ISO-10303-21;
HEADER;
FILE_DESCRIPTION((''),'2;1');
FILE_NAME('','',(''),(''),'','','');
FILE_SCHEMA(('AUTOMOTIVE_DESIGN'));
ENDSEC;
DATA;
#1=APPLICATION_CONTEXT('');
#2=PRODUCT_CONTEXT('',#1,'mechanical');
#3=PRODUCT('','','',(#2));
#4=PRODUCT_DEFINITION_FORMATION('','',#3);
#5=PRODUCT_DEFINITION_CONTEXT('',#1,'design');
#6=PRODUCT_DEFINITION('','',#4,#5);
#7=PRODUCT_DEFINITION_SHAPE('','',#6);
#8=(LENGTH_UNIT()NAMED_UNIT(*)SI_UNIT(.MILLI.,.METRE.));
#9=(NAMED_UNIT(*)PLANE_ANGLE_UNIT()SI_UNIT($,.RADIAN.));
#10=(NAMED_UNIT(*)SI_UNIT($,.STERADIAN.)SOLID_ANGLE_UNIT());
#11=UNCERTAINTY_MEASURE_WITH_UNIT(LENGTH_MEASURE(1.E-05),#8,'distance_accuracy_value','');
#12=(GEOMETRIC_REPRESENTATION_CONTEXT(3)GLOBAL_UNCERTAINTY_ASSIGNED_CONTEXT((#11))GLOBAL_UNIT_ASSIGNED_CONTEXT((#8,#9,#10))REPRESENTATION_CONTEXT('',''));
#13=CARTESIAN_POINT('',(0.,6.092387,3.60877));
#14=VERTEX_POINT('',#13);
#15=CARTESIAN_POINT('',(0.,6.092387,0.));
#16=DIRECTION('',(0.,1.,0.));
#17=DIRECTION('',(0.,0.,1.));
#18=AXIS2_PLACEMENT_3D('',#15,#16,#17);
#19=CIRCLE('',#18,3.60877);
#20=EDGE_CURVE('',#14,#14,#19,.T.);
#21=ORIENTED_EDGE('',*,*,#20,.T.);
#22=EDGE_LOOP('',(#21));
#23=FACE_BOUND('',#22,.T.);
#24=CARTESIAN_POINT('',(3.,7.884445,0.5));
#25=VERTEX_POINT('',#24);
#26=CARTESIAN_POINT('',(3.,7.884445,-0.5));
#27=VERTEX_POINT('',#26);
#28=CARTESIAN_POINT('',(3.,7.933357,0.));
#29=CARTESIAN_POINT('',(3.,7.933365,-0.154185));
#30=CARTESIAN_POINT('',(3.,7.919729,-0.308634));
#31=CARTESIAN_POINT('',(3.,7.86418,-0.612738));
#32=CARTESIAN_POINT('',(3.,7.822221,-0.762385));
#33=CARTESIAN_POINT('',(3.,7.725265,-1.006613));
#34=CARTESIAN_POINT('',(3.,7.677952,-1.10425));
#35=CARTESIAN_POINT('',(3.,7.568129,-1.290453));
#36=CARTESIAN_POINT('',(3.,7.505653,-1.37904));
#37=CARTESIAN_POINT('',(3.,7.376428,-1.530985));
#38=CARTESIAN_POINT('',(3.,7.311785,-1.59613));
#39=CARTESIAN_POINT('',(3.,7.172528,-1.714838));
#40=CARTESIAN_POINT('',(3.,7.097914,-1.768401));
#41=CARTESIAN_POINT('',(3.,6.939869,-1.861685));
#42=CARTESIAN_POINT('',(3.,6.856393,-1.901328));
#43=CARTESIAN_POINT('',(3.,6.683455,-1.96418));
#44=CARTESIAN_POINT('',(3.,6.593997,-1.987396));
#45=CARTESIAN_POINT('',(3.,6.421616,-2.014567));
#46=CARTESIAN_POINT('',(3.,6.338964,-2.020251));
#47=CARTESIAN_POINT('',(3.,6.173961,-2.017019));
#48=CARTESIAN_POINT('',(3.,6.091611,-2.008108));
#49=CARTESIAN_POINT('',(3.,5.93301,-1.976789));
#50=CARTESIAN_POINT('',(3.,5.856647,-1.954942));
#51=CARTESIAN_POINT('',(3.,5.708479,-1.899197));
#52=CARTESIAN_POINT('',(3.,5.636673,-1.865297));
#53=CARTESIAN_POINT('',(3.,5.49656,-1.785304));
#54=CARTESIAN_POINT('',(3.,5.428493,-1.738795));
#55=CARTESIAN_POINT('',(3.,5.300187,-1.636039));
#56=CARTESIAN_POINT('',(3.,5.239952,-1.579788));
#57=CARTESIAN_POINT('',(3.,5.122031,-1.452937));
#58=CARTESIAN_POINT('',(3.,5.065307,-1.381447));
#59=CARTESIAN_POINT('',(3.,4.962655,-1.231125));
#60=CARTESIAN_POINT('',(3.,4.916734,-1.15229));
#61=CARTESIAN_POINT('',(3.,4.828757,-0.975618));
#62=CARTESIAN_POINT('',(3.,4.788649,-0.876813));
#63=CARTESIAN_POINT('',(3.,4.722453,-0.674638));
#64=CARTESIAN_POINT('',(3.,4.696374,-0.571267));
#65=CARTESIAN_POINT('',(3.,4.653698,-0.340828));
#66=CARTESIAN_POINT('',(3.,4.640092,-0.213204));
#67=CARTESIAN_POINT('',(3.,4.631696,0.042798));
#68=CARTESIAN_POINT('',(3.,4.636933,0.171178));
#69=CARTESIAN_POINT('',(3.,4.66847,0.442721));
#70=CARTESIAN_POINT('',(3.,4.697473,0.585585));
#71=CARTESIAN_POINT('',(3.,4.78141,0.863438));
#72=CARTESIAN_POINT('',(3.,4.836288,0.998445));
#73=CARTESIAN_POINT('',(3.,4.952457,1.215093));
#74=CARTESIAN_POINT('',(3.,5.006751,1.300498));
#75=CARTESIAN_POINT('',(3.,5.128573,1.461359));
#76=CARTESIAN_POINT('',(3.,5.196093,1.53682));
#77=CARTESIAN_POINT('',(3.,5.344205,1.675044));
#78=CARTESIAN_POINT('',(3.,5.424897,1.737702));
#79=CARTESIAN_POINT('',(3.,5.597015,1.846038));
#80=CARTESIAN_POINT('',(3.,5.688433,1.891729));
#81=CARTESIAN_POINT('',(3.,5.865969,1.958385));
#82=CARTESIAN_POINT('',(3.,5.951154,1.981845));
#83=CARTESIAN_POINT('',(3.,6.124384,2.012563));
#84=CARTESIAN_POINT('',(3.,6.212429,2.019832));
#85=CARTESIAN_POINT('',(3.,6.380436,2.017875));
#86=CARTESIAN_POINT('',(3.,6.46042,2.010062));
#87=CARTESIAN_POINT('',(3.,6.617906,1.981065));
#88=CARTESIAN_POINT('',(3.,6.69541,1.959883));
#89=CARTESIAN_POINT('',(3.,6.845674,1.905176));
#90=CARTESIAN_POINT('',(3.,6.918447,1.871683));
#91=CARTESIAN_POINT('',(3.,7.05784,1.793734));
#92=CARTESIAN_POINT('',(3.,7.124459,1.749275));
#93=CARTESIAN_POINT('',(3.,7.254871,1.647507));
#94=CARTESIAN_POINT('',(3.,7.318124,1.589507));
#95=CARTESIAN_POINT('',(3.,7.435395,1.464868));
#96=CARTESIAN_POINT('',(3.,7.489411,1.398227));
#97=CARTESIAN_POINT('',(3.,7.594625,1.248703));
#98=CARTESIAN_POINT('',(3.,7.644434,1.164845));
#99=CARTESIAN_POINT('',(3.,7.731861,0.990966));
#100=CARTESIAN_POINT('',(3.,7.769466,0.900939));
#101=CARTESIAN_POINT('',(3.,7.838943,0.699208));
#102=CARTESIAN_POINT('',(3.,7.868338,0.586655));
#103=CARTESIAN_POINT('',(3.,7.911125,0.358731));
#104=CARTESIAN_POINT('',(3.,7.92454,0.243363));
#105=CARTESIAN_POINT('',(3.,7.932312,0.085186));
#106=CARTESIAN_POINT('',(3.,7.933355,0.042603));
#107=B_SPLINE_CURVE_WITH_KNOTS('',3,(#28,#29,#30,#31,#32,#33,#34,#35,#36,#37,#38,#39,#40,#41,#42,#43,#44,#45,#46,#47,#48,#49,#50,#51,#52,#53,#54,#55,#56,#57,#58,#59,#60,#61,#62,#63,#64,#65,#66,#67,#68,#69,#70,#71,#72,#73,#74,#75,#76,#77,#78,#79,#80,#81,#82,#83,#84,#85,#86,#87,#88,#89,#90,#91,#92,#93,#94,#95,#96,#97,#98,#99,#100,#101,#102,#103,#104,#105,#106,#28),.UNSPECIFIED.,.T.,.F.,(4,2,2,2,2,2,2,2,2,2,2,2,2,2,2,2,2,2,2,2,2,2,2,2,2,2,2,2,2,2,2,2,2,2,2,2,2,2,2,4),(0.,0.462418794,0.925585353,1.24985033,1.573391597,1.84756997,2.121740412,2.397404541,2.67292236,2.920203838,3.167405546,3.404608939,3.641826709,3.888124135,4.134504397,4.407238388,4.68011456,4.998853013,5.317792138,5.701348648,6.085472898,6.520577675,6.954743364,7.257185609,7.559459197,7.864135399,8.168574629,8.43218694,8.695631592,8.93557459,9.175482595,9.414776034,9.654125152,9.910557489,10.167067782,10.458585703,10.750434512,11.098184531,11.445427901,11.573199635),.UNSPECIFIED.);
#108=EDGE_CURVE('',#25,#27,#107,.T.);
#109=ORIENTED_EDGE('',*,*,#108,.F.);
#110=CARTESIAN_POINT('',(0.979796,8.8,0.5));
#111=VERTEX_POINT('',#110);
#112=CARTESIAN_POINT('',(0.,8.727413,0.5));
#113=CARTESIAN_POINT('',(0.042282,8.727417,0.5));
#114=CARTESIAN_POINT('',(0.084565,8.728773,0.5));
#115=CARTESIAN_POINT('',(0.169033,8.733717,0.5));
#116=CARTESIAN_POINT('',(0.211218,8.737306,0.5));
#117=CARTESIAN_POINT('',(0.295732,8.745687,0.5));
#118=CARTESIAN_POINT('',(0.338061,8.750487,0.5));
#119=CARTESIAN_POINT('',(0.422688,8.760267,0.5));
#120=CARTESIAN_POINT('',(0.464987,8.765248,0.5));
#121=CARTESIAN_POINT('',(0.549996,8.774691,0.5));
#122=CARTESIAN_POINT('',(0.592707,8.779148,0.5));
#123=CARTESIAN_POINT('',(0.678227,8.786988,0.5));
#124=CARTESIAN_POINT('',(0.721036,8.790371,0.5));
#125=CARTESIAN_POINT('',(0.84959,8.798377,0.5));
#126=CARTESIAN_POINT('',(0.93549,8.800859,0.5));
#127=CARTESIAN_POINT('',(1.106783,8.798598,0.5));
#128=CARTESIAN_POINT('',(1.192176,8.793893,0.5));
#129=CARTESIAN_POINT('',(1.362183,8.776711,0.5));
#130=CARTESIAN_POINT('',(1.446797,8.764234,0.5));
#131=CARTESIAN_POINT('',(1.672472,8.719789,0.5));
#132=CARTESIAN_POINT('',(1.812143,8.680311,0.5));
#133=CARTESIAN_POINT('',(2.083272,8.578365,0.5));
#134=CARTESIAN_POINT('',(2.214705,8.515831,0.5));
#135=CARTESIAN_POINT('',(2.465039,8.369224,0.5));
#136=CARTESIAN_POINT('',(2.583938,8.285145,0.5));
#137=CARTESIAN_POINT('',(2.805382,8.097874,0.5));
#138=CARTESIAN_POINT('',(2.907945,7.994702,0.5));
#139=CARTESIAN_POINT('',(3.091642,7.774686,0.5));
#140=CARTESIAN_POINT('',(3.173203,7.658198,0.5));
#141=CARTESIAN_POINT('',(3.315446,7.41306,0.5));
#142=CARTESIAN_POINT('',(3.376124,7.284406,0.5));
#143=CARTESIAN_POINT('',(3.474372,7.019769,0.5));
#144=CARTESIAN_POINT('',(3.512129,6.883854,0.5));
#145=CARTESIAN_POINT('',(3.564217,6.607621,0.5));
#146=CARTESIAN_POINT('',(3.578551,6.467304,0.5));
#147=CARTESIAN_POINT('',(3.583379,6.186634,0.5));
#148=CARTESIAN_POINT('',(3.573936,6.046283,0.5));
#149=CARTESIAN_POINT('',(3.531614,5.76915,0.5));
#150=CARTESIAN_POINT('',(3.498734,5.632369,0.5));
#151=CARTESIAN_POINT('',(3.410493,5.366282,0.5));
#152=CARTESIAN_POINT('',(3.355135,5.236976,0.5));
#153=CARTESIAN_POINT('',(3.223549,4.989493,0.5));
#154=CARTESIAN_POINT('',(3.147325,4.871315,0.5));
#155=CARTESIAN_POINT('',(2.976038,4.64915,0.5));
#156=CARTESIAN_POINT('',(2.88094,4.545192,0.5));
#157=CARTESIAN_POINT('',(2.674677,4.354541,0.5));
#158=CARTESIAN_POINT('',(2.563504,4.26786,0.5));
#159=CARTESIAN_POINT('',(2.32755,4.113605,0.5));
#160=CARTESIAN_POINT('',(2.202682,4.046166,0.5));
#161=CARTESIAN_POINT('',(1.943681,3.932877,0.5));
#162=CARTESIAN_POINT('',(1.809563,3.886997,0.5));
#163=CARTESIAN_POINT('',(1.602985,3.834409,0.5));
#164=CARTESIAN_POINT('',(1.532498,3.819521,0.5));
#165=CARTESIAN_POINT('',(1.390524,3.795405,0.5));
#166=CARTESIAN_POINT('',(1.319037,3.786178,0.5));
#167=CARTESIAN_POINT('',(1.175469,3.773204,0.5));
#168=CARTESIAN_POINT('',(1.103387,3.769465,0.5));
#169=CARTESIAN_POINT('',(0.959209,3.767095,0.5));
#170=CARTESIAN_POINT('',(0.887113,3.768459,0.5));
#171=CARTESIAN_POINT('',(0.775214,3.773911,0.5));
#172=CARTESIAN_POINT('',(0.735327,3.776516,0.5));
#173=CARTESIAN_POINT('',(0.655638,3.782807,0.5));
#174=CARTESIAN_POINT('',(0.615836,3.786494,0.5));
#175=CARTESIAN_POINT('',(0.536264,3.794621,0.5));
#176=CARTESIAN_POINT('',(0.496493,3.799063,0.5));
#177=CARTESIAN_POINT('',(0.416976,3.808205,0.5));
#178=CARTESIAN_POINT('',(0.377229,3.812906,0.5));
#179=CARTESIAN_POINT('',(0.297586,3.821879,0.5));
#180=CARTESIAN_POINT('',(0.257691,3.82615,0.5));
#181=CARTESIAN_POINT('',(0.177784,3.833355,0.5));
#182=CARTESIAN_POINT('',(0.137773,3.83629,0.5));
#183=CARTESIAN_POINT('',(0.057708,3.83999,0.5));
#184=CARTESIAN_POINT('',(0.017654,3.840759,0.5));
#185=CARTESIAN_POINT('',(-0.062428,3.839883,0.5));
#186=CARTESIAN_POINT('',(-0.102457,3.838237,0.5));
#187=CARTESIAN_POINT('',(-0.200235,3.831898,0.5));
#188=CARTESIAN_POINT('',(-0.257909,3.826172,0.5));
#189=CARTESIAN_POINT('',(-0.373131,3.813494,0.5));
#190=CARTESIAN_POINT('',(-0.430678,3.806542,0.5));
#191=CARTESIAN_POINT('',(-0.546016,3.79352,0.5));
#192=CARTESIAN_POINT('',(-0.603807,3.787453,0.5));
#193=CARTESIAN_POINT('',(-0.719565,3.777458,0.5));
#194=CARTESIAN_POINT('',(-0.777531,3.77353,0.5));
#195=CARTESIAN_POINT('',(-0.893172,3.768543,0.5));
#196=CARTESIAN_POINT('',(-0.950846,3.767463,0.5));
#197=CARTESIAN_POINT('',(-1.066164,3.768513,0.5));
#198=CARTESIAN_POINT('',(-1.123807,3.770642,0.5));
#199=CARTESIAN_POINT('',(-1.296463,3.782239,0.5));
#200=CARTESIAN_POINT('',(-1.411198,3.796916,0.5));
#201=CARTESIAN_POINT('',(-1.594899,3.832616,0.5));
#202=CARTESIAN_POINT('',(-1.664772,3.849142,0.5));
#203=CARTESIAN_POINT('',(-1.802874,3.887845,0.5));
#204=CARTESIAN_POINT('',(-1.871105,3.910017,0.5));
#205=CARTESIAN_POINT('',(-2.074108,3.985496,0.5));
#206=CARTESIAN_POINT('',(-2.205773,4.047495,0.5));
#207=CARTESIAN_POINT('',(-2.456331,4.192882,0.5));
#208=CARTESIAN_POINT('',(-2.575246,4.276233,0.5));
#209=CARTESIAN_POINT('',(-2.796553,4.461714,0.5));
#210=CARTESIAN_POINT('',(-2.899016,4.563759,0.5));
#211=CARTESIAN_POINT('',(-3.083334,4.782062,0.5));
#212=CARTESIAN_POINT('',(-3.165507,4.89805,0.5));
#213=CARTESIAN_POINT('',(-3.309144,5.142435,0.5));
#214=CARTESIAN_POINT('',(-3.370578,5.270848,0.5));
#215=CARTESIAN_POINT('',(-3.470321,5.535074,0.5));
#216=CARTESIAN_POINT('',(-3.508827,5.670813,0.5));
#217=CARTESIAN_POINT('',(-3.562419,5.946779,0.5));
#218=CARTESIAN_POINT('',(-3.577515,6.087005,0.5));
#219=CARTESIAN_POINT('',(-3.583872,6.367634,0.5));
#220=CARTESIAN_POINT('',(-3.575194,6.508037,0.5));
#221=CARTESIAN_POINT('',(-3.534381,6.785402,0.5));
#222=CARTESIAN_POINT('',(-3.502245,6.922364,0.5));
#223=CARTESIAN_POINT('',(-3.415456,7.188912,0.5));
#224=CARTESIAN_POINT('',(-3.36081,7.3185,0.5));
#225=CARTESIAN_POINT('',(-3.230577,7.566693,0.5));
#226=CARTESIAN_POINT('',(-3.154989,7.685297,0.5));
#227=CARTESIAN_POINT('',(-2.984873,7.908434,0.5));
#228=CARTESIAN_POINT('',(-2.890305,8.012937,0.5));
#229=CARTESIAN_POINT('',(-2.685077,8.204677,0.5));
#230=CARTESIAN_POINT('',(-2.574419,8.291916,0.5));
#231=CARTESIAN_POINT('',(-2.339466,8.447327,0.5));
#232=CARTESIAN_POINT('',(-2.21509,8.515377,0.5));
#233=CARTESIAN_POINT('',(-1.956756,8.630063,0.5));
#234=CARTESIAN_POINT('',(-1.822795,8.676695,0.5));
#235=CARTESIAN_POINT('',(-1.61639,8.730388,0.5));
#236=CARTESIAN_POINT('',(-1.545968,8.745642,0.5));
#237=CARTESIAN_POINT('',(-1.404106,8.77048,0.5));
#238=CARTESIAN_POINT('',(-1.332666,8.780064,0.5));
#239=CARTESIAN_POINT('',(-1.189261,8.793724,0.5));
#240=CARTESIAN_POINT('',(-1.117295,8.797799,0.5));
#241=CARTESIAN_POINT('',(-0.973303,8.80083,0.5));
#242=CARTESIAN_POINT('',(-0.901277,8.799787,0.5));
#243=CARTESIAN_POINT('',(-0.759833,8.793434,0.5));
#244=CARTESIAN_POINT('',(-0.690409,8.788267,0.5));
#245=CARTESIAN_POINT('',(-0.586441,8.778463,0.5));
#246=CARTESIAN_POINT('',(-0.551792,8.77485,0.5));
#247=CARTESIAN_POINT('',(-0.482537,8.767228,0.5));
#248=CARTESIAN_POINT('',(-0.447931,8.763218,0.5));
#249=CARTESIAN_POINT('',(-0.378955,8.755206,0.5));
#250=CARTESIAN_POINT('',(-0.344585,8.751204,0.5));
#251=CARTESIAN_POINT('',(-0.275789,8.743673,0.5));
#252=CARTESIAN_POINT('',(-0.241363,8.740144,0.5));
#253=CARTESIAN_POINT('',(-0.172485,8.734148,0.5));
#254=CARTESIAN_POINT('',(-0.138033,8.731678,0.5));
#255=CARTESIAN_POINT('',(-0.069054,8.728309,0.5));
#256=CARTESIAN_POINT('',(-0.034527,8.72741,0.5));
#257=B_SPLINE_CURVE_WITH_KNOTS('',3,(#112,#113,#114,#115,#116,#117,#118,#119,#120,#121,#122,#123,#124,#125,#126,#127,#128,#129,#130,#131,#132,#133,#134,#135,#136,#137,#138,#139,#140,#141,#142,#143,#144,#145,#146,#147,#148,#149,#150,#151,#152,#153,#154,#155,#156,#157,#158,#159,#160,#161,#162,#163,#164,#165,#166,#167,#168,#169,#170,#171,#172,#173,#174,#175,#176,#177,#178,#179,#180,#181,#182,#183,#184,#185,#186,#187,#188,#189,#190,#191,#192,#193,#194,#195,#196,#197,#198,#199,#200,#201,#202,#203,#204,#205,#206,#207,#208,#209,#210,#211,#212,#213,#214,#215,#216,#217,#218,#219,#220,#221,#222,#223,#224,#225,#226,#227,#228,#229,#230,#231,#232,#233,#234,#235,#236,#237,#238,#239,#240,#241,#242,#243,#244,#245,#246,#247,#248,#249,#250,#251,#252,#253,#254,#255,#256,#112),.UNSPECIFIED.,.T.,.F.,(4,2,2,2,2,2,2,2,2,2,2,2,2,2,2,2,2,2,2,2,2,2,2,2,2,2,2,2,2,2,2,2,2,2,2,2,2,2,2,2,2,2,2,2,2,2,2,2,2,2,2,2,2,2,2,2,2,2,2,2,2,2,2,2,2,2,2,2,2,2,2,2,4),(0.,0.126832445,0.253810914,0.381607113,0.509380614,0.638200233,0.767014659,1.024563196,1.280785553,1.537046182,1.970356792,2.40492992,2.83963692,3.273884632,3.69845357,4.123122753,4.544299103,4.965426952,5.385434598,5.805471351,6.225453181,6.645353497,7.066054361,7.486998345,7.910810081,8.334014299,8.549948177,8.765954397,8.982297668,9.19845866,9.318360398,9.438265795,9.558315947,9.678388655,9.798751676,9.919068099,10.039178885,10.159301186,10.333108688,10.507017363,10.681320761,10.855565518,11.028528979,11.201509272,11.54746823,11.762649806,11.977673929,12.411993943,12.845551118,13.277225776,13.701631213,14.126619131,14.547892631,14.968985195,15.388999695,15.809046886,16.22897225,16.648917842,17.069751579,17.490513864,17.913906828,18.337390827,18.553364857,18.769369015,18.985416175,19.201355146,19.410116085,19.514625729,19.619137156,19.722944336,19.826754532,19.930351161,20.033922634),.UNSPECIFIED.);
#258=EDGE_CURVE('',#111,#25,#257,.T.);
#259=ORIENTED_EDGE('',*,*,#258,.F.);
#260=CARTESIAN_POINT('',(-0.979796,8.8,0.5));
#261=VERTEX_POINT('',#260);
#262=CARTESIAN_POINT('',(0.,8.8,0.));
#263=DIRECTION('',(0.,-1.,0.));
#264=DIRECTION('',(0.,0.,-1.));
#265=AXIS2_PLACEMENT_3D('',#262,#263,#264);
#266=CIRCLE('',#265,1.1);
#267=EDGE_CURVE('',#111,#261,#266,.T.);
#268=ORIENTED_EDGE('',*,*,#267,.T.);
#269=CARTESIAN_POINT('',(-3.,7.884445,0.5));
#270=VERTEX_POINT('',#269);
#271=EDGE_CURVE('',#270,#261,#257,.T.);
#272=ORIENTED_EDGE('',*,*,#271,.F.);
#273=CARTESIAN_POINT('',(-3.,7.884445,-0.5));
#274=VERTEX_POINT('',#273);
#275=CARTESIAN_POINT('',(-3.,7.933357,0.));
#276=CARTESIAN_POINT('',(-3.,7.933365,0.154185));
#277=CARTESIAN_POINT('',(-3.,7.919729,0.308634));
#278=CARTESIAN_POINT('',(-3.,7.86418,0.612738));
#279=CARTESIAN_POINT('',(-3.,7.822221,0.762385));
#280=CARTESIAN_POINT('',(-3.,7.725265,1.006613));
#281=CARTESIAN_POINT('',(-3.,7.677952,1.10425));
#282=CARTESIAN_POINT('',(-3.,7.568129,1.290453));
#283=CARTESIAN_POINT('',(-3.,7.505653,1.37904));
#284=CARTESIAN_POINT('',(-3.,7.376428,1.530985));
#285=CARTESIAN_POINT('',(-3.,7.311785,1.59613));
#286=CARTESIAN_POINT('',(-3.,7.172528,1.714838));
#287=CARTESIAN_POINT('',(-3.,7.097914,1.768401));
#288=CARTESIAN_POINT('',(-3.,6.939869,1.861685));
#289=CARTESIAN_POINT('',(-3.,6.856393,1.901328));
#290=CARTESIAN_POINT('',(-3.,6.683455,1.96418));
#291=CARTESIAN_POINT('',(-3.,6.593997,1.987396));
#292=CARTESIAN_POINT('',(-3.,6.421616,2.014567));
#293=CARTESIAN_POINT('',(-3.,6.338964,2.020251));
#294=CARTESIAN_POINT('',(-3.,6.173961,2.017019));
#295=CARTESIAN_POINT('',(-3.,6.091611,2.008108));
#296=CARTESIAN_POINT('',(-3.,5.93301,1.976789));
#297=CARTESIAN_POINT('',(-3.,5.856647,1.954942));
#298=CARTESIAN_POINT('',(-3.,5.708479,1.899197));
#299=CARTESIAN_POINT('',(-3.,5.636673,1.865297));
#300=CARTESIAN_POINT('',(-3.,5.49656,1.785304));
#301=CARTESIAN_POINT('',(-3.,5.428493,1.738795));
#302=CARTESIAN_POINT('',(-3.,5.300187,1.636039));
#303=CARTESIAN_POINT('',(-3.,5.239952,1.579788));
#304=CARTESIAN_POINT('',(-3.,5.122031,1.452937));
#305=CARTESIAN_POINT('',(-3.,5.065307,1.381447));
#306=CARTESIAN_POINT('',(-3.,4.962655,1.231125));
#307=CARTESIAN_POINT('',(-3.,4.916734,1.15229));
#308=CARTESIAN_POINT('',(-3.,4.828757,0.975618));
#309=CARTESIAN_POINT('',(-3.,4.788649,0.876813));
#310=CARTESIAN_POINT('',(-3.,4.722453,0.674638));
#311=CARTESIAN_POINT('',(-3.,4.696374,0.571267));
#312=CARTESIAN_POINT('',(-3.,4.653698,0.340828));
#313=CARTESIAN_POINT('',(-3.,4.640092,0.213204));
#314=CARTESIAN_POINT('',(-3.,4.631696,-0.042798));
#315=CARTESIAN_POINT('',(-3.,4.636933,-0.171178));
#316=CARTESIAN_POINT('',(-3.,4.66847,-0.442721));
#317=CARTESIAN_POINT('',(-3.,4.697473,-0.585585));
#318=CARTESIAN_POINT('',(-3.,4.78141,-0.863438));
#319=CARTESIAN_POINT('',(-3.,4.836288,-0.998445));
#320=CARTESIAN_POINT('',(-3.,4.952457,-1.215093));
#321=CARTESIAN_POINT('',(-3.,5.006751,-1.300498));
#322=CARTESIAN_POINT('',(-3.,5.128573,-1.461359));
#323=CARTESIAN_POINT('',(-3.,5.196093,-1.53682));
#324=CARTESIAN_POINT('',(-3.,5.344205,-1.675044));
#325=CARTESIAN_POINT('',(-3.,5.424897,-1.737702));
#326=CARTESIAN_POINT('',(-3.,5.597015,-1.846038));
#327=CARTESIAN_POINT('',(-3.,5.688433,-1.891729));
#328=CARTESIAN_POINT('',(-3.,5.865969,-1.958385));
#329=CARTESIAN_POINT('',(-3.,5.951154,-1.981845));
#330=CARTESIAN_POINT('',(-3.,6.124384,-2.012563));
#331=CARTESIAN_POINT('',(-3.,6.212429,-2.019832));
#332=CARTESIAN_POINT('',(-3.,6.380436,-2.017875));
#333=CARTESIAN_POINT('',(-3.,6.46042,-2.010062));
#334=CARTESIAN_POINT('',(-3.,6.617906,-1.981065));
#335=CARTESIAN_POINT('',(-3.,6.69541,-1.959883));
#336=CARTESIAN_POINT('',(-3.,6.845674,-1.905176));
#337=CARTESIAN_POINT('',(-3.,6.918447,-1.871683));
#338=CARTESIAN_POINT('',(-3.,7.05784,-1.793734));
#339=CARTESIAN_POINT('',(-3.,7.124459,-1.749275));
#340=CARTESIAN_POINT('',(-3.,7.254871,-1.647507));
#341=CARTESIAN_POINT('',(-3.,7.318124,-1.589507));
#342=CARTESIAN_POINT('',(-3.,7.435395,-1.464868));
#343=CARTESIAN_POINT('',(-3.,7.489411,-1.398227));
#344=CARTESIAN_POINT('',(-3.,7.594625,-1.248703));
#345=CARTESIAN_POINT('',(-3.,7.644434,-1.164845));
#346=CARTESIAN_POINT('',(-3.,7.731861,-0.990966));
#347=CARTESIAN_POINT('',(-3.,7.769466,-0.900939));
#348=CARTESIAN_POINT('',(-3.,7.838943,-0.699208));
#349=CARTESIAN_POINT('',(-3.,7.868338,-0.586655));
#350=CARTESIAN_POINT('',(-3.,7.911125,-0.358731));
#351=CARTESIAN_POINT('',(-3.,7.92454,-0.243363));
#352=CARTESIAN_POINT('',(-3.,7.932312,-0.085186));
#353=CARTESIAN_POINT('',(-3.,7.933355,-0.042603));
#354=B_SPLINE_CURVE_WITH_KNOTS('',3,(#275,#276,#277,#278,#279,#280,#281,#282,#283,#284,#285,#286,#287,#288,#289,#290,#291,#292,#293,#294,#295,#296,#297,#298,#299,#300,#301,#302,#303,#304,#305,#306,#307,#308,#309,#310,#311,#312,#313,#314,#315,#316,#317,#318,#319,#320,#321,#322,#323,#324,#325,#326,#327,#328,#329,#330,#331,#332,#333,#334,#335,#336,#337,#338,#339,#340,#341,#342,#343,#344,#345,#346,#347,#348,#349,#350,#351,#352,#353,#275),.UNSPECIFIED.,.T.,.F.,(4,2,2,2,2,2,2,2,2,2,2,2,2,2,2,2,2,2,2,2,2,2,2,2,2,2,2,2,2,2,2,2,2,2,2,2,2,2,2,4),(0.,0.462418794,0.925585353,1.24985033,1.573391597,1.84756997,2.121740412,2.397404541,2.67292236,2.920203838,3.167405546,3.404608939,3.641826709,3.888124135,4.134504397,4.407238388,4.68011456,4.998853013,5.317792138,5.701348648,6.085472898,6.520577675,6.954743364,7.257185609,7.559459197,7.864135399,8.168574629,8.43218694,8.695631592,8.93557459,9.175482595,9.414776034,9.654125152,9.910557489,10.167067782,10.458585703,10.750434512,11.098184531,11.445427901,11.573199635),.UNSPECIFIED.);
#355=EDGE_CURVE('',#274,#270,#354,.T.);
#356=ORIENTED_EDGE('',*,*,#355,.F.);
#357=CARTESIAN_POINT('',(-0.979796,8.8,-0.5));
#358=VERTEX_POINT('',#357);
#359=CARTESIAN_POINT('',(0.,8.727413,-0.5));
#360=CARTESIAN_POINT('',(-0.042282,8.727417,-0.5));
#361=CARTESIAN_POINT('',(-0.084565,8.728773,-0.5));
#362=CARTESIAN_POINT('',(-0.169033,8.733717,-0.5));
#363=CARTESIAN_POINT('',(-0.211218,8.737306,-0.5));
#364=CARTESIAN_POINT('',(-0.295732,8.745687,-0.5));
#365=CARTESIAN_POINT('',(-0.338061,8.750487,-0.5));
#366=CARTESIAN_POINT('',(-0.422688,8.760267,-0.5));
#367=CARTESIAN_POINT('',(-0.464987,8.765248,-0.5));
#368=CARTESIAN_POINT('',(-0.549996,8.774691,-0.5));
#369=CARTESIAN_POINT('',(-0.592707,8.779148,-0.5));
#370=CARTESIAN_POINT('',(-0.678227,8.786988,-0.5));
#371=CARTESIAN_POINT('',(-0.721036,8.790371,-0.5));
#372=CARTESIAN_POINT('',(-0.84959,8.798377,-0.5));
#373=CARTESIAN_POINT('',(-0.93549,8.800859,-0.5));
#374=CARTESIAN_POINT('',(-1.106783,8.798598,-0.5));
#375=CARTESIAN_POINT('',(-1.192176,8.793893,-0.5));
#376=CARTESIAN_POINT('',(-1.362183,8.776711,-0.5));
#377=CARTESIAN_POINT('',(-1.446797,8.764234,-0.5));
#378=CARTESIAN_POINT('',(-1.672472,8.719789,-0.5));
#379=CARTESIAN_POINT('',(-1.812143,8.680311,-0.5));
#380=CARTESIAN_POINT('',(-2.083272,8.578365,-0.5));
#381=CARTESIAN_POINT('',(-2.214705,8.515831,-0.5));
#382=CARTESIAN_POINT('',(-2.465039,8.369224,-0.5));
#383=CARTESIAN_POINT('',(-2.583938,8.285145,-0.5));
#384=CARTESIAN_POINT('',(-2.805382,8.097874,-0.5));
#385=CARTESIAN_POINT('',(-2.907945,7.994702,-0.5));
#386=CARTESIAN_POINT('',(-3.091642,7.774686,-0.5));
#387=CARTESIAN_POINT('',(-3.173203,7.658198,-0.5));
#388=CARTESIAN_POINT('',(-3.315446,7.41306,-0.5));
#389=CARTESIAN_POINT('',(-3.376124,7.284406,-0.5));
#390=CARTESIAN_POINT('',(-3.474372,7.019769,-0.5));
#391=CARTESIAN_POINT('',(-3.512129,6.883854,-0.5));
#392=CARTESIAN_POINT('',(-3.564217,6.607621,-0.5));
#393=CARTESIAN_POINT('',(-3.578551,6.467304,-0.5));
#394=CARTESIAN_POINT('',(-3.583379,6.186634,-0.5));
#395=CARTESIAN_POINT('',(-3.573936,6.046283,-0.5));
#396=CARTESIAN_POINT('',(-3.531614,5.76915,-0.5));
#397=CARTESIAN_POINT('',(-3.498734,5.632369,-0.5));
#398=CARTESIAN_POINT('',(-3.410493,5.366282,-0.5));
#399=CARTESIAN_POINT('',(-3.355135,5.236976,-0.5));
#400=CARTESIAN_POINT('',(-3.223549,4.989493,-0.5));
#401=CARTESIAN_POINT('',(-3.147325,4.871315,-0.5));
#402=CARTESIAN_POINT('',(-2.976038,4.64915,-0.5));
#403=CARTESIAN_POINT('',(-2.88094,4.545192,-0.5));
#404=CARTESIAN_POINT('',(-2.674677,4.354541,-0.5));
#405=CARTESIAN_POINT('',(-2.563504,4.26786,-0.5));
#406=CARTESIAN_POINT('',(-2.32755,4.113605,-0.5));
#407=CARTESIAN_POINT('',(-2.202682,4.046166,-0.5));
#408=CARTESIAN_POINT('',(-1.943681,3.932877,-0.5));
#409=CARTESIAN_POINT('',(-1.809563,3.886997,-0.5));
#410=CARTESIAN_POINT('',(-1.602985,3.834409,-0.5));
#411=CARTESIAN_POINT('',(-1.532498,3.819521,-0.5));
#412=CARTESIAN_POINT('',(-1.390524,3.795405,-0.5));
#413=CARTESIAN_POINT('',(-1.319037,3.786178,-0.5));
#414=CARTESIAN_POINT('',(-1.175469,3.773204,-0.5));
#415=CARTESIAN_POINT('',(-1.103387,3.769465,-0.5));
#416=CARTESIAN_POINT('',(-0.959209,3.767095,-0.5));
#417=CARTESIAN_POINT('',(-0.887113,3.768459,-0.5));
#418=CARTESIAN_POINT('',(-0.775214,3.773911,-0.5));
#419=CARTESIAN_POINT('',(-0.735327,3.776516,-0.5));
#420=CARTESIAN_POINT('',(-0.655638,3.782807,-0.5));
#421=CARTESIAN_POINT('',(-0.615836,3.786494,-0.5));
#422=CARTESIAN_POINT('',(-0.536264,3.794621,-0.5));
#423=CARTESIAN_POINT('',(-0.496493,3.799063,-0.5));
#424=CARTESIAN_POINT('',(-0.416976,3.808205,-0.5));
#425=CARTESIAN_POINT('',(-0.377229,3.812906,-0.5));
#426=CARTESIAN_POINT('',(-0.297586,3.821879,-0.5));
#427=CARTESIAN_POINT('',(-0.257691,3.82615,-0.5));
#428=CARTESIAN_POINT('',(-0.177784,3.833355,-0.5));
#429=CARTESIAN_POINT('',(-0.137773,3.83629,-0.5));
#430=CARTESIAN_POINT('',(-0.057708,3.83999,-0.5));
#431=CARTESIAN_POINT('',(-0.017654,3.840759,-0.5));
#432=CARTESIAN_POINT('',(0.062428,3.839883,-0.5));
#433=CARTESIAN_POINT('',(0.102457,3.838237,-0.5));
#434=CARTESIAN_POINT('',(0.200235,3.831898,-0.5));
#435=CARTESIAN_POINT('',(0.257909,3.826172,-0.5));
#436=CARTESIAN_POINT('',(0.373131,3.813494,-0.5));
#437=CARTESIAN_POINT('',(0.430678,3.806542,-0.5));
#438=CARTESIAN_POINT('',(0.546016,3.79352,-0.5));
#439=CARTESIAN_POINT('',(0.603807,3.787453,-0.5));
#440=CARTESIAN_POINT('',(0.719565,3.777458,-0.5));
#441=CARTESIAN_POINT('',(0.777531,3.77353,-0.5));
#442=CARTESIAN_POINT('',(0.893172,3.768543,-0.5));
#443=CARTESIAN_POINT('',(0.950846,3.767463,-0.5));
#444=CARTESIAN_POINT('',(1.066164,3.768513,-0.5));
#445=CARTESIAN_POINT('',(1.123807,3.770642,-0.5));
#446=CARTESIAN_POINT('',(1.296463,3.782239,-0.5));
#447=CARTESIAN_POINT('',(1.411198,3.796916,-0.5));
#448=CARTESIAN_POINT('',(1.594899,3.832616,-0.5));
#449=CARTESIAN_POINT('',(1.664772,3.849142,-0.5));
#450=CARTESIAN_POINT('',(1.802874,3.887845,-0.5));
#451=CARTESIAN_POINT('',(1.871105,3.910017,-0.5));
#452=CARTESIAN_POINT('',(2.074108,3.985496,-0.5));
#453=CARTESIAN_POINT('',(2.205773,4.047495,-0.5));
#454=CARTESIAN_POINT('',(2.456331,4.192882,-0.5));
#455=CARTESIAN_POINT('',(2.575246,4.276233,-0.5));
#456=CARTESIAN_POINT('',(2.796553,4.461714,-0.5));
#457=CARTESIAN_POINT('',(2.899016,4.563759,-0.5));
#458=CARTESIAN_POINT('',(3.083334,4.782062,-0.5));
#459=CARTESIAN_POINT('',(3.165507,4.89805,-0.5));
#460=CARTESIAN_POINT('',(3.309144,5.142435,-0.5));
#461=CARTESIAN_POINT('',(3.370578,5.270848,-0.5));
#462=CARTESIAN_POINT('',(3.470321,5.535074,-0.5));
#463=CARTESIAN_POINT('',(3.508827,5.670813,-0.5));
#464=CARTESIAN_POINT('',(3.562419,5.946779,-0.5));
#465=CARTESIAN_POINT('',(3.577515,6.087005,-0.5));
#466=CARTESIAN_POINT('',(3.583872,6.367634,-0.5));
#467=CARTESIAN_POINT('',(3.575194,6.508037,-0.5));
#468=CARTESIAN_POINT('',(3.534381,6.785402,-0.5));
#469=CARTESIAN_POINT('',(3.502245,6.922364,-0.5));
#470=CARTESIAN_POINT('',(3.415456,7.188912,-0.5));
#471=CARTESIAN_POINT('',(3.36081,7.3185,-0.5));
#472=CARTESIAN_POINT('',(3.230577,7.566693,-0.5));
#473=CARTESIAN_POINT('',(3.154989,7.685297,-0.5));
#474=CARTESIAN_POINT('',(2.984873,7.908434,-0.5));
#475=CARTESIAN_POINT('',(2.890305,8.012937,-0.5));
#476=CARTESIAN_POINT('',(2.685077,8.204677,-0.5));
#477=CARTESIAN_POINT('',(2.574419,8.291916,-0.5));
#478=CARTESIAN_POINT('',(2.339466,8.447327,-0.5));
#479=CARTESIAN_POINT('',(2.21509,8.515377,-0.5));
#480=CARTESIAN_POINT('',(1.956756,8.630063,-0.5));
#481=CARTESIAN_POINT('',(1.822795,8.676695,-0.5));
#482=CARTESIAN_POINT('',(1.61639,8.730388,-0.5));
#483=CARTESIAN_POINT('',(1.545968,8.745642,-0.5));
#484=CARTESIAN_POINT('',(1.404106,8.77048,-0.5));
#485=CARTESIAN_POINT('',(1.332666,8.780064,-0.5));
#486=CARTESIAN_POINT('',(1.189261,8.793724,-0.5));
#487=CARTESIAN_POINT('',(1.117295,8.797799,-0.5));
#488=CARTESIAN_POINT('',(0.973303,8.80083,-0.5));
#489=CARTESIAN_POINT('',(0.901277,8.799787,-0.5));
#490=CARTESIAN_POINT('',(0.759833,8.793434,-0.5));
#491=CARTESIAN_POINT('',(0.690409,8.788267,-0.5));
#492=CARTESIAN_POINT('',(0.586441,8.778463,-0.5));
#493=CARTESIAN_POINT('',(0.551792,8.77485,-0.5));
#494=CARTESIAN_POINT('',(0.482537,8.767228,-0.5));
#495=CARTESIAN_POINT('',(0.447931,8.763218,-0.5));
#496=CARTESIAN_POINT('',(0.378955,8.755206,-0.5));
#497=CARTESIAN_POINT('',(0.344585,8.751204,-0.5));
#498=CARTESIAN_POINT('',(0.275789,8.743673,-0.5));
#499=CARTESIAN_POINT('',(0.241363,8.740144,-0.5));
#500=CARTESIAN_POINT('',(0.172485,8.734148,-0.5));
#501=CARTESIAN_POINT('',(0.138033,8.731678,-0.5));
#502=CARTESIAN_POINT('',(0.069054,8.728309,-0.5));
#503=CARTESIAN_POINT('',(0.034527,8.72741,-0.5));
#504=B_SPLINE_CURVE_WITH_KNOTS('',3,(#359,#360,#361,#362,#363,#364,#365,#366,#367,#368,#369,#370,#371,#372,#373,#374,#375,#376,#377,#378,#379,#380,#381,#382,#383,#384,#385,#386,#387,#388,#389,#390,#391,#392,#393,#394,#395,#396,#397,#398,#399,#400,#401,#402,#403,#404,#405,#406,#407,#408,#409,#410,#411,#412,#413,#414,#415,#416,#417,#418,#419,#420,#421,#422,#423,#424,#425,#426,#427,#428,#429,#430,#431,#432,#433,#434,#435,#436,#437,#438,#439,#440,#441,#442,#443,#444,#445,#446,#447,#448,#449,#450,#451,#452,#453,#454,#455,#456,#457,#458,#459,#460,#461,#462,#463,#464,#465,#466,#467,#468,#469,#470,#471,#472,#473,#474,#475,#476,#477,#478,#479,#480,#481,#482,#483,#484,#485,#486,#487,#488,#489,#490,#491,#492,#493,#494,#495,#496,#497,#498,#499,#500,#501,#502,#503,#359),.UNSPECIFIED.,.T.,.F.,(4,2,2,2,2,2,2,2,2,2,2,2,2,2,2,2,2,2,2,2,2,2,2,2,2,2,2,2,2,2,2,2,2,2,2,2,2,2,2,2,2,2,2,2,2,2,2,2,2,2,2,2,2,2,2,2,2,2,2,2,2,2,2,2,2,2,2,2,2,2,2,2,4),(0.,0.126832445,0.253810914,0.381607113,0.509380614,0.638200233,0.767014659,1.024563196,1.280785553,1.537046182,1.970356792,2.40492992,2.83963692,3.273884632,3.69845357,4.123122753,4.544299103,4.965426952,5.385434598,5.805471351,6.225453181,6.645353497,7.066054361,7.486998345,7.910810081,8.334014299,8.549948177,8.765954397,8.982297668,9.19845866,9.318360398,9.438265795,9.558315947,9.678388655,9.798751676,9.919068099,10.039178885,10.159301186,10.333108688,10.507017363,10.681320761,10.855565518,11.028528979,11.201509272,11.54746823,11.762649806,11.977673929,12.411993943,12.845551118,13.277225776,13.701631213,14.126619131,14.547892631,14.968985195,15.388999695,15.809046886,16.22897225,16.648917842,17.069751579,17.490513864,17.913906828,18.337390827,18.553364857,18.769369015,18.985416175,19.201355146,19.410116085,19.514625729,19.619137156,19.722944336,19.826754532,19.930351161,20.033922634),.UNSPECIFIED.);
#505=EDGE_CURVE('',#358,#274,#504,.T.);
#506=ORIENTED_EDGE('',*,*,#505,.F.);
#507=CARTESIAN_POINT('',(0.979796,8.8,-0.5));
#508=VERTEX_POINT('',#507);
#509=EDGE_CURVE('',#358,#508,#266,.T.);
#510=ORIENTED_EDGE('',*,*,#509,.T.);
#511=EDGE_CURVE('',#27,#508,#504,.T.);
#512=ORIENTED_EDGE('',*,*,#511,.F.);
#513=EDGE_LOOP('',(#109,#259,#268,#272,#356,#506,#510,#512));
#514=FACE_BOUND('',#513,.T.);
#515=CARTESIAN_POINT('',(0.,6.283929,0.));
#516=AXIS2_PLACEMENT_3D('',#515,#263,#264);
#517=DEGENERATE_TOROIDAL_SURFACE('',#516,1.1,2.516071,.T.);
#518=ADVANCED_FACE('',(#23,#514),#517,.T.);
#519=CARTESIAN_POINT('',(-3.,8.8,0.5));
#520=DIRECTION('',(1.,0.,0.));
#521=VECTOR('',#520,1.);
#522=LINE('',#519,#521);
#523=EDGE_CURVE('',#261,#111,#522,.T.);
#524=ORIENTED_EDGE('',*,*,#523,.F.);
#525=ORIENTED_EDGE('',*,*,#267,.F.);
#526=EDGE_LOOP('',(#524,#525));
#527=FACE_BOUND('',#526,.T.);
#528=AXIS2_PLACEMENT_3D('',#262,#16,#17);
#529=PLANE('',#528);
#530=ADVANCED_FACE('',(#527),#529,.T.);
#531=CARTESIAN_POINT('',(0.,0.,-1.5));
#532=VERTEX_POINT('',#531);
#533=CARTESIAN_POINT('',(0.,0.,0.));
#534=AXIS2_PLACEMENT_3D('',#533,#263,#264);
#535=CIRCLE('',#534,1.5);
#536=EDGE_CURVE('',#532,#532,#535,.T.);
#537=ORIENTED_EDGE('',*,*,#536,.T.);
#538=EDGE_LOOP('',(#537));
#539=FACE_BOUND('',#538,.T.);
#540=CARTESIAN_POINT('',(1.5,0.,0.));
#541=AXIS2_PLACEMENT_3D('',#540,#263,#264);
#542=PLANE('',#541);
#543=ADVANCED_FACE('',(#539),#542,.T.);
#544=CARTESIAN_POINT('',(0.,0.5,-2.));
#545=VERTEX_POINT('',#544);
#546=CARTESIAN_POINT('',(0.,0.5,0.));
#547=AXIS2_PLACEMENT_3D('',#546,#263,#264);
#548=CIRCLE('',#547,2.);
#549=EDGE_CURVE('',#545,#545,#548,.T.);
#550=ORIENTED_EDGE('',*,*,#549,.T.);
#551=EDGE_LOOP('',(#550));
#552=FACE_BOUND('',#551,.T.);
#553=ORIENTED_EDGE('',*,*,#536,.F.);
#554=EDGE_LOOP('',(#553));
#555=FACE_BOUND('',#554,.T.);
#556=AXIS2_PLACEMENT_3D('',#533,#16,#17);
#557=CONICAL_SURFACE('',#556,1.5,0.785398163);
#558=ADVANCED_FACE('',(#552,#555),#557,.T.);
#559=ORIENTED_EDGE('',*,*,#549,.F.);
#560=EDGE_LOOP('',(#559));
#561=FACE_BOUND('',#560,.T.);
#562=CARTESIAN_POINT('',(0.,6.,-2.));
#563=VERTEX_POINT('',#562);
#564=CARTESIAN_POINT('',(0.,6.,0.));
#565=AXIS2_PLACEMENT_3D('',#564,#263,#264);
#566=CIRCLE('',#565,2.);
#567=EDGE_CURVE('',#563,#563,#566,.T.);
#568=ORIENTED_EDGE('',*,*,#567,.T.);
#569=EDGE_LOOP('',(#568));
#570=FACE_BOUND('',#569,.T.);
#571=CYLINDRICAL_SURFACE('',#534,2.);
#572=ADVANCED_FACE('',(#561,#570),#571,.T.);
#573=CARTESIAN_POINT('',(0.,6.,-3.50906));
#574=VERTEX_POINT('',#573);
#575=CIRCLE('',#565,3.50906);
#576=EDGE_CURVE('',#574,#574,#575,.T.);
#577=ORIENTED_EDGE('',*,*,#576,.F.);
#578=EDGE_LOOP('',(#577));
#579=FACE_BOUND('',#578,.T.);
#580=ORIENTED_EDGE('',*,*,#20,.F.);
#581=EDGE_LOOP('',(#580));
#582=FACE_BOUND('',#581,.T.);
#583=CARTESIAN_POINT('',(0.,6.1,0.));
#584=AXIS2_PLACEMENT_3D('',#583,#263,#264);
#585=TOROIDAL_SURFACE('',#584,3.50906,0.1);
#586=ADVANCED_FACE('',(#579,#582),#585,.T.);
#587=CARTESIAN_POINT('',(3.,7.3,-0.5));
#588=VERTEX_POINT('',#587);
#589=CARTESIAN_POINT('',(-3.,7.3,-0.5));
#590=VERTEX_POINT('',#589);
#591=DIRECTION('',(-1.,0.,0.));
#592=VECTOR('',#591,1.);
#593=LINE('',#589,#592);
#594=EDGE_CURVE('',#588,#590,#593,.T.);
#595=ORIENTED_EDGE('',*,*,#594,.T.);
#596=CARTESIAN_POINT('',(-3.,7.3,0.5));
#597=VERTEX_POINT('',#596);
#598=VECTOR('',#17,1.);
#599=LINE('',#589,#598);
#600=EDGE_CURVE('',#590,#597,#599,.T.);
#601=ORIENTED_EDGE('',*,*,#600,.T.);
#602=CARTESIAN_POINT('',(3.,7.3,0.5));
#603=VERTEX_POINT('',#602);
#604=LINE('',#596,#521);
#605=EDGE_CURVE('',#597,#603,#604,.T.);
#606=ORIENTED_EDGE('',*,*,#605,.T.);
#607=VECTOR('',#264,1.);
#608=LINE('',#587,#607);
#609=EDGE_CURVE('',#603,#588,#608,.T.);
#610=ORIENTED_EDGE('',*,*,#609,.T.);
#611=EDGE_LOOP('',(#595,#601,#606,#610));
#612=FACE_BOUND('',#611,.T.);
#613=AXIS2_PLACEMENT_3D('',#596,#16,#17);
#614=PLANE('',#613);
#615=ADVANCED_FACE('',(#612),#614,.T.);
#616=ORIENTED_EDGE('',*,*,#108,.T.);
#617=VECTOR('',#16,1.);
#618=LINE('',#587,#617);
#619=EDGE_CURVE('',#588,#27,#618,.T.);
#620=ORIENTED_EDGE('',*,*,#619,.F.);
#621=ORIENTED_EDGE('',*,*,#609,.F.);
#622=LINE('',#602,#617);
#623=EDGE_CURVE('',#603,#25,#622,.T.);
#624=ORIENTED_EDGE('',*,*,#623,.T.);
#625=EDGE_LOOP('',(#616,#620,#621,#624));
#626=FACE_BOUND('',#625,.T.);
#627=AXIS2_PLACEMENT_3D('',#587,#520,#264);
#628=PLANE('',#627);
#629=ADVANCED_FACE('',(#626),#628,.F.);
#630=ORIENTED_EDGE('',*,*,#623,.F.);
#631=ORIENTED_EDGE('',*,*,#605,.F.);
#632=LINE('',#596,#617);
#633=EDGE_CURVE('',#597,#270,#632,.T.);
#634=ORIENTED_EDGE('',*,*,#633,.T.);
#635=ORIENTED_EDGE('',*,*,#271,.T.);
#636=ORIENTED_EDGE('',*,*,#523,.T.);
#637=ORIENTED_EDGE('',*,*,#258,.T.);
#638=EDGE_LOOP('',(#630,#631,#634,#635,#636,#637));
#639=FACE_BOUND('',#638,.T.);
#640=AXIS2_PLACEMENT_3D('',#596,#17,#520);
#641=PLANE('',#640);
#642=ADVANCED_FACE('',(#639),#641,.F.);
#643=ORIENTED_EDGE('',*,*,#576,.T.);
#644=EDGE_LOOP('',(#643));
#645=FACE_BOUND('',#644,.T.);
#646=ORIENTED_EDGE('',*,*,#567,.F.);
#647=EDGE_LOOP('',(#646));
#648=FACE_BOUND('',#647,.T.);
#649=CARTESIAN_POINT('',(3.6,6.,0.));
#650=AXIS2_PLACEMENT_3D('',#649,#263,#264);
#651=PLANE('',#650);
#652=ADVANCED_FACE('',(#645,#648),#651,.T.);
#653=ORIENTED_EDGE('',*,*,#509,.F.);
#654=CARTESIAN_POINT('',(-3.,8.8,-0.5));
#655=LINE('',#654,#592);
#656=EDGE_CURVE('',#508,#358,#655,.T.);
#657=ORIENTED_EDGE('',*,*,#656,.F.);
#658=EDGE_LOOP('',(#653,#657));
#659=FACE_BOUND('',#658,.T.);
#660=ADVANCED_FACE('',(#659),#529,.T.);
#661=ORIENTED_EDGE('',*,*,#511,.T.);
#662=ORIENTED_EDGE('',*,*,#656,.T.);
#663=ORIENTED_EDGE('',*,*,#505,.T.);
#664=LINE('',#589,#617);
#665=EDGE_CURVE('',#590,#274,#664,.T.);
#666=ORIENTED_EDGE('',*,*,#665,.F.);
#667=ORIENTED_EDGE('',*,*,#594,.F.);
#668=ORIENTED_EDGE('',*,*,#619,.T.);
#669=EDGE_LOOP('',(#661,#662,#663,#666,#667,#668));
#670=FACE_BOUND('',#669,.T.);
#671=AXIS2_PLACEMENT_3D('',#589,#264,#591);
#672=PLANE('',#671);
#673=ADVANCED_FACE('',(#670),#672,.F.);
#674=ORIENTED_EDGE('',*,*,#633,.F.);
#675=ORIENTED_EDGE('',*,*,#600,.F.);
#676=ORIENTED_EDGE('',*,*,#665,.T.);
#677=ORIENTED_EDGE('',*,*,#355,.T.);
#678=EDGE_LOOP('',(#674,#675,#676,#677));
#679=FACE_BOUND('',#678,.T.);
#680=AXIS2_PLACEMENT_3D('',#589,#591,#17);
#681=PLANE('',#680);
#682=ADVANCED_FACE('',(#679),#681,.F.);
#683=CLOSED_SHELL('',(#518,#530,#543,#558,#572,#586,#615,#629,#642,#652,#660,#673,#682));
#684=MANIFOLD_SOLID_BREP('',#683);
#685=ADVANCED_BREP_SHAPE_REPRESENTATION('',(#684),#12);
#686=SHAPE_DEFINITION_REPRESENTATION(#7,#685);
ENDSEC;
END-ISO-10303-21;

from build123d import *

# Parameters (mm, degrees)
FILLET_1_R          = 0.1
SKETCH_3_W          = 6
SKETCH_3_H          = 1
CUT_EXTRUDE_2_DEPTH = 1.5


with BuildPart() as part:
    # Эскиз1 → Повернуть1 (revolve)
    with BuildSketch(Plane.XY):
        with BuildLine():
            Line((3.6, 6), (2, 6))
            Line((2, 6), (2, 0.5))
            Line((2, 0.5), (1.5, 0))
            Line((1.5, 0), (0, 0))
            Line((0, 0), (0, 8.8))
            Line((0, 8.8), (1.1, 8.8))
            ThreePointArc((1.1, 8.8), (2.976832438, 7.95967182), (3.6, 6))
        make_face()
    revolve(axis=Axis((0, 0, 0), (0, 1, 0)))

    # Скругление1
    fillet_1_edges = [part.edges().sort_by_distance(p)[0] for p in [
        (-3.6, 6, 0),
    ]]
    fillet(fillet_1_edges, radius=FILLET_1_R)

    # Эскиз3 → Вырез-Вытянуть2 (cut)
    with BuildSketch(Plane(origin=(0, 8.8, 0), x_dir=(-1, 0, 0), z_dir=(0, 1, 0))):
        Rectangle(SKETCH_3_W, SKETCH_3_H)
    extrude(amount=-CUT_EXTRUDE_2_DEPTH, mode=Mode.SUBTRACT)


solid = part.part
